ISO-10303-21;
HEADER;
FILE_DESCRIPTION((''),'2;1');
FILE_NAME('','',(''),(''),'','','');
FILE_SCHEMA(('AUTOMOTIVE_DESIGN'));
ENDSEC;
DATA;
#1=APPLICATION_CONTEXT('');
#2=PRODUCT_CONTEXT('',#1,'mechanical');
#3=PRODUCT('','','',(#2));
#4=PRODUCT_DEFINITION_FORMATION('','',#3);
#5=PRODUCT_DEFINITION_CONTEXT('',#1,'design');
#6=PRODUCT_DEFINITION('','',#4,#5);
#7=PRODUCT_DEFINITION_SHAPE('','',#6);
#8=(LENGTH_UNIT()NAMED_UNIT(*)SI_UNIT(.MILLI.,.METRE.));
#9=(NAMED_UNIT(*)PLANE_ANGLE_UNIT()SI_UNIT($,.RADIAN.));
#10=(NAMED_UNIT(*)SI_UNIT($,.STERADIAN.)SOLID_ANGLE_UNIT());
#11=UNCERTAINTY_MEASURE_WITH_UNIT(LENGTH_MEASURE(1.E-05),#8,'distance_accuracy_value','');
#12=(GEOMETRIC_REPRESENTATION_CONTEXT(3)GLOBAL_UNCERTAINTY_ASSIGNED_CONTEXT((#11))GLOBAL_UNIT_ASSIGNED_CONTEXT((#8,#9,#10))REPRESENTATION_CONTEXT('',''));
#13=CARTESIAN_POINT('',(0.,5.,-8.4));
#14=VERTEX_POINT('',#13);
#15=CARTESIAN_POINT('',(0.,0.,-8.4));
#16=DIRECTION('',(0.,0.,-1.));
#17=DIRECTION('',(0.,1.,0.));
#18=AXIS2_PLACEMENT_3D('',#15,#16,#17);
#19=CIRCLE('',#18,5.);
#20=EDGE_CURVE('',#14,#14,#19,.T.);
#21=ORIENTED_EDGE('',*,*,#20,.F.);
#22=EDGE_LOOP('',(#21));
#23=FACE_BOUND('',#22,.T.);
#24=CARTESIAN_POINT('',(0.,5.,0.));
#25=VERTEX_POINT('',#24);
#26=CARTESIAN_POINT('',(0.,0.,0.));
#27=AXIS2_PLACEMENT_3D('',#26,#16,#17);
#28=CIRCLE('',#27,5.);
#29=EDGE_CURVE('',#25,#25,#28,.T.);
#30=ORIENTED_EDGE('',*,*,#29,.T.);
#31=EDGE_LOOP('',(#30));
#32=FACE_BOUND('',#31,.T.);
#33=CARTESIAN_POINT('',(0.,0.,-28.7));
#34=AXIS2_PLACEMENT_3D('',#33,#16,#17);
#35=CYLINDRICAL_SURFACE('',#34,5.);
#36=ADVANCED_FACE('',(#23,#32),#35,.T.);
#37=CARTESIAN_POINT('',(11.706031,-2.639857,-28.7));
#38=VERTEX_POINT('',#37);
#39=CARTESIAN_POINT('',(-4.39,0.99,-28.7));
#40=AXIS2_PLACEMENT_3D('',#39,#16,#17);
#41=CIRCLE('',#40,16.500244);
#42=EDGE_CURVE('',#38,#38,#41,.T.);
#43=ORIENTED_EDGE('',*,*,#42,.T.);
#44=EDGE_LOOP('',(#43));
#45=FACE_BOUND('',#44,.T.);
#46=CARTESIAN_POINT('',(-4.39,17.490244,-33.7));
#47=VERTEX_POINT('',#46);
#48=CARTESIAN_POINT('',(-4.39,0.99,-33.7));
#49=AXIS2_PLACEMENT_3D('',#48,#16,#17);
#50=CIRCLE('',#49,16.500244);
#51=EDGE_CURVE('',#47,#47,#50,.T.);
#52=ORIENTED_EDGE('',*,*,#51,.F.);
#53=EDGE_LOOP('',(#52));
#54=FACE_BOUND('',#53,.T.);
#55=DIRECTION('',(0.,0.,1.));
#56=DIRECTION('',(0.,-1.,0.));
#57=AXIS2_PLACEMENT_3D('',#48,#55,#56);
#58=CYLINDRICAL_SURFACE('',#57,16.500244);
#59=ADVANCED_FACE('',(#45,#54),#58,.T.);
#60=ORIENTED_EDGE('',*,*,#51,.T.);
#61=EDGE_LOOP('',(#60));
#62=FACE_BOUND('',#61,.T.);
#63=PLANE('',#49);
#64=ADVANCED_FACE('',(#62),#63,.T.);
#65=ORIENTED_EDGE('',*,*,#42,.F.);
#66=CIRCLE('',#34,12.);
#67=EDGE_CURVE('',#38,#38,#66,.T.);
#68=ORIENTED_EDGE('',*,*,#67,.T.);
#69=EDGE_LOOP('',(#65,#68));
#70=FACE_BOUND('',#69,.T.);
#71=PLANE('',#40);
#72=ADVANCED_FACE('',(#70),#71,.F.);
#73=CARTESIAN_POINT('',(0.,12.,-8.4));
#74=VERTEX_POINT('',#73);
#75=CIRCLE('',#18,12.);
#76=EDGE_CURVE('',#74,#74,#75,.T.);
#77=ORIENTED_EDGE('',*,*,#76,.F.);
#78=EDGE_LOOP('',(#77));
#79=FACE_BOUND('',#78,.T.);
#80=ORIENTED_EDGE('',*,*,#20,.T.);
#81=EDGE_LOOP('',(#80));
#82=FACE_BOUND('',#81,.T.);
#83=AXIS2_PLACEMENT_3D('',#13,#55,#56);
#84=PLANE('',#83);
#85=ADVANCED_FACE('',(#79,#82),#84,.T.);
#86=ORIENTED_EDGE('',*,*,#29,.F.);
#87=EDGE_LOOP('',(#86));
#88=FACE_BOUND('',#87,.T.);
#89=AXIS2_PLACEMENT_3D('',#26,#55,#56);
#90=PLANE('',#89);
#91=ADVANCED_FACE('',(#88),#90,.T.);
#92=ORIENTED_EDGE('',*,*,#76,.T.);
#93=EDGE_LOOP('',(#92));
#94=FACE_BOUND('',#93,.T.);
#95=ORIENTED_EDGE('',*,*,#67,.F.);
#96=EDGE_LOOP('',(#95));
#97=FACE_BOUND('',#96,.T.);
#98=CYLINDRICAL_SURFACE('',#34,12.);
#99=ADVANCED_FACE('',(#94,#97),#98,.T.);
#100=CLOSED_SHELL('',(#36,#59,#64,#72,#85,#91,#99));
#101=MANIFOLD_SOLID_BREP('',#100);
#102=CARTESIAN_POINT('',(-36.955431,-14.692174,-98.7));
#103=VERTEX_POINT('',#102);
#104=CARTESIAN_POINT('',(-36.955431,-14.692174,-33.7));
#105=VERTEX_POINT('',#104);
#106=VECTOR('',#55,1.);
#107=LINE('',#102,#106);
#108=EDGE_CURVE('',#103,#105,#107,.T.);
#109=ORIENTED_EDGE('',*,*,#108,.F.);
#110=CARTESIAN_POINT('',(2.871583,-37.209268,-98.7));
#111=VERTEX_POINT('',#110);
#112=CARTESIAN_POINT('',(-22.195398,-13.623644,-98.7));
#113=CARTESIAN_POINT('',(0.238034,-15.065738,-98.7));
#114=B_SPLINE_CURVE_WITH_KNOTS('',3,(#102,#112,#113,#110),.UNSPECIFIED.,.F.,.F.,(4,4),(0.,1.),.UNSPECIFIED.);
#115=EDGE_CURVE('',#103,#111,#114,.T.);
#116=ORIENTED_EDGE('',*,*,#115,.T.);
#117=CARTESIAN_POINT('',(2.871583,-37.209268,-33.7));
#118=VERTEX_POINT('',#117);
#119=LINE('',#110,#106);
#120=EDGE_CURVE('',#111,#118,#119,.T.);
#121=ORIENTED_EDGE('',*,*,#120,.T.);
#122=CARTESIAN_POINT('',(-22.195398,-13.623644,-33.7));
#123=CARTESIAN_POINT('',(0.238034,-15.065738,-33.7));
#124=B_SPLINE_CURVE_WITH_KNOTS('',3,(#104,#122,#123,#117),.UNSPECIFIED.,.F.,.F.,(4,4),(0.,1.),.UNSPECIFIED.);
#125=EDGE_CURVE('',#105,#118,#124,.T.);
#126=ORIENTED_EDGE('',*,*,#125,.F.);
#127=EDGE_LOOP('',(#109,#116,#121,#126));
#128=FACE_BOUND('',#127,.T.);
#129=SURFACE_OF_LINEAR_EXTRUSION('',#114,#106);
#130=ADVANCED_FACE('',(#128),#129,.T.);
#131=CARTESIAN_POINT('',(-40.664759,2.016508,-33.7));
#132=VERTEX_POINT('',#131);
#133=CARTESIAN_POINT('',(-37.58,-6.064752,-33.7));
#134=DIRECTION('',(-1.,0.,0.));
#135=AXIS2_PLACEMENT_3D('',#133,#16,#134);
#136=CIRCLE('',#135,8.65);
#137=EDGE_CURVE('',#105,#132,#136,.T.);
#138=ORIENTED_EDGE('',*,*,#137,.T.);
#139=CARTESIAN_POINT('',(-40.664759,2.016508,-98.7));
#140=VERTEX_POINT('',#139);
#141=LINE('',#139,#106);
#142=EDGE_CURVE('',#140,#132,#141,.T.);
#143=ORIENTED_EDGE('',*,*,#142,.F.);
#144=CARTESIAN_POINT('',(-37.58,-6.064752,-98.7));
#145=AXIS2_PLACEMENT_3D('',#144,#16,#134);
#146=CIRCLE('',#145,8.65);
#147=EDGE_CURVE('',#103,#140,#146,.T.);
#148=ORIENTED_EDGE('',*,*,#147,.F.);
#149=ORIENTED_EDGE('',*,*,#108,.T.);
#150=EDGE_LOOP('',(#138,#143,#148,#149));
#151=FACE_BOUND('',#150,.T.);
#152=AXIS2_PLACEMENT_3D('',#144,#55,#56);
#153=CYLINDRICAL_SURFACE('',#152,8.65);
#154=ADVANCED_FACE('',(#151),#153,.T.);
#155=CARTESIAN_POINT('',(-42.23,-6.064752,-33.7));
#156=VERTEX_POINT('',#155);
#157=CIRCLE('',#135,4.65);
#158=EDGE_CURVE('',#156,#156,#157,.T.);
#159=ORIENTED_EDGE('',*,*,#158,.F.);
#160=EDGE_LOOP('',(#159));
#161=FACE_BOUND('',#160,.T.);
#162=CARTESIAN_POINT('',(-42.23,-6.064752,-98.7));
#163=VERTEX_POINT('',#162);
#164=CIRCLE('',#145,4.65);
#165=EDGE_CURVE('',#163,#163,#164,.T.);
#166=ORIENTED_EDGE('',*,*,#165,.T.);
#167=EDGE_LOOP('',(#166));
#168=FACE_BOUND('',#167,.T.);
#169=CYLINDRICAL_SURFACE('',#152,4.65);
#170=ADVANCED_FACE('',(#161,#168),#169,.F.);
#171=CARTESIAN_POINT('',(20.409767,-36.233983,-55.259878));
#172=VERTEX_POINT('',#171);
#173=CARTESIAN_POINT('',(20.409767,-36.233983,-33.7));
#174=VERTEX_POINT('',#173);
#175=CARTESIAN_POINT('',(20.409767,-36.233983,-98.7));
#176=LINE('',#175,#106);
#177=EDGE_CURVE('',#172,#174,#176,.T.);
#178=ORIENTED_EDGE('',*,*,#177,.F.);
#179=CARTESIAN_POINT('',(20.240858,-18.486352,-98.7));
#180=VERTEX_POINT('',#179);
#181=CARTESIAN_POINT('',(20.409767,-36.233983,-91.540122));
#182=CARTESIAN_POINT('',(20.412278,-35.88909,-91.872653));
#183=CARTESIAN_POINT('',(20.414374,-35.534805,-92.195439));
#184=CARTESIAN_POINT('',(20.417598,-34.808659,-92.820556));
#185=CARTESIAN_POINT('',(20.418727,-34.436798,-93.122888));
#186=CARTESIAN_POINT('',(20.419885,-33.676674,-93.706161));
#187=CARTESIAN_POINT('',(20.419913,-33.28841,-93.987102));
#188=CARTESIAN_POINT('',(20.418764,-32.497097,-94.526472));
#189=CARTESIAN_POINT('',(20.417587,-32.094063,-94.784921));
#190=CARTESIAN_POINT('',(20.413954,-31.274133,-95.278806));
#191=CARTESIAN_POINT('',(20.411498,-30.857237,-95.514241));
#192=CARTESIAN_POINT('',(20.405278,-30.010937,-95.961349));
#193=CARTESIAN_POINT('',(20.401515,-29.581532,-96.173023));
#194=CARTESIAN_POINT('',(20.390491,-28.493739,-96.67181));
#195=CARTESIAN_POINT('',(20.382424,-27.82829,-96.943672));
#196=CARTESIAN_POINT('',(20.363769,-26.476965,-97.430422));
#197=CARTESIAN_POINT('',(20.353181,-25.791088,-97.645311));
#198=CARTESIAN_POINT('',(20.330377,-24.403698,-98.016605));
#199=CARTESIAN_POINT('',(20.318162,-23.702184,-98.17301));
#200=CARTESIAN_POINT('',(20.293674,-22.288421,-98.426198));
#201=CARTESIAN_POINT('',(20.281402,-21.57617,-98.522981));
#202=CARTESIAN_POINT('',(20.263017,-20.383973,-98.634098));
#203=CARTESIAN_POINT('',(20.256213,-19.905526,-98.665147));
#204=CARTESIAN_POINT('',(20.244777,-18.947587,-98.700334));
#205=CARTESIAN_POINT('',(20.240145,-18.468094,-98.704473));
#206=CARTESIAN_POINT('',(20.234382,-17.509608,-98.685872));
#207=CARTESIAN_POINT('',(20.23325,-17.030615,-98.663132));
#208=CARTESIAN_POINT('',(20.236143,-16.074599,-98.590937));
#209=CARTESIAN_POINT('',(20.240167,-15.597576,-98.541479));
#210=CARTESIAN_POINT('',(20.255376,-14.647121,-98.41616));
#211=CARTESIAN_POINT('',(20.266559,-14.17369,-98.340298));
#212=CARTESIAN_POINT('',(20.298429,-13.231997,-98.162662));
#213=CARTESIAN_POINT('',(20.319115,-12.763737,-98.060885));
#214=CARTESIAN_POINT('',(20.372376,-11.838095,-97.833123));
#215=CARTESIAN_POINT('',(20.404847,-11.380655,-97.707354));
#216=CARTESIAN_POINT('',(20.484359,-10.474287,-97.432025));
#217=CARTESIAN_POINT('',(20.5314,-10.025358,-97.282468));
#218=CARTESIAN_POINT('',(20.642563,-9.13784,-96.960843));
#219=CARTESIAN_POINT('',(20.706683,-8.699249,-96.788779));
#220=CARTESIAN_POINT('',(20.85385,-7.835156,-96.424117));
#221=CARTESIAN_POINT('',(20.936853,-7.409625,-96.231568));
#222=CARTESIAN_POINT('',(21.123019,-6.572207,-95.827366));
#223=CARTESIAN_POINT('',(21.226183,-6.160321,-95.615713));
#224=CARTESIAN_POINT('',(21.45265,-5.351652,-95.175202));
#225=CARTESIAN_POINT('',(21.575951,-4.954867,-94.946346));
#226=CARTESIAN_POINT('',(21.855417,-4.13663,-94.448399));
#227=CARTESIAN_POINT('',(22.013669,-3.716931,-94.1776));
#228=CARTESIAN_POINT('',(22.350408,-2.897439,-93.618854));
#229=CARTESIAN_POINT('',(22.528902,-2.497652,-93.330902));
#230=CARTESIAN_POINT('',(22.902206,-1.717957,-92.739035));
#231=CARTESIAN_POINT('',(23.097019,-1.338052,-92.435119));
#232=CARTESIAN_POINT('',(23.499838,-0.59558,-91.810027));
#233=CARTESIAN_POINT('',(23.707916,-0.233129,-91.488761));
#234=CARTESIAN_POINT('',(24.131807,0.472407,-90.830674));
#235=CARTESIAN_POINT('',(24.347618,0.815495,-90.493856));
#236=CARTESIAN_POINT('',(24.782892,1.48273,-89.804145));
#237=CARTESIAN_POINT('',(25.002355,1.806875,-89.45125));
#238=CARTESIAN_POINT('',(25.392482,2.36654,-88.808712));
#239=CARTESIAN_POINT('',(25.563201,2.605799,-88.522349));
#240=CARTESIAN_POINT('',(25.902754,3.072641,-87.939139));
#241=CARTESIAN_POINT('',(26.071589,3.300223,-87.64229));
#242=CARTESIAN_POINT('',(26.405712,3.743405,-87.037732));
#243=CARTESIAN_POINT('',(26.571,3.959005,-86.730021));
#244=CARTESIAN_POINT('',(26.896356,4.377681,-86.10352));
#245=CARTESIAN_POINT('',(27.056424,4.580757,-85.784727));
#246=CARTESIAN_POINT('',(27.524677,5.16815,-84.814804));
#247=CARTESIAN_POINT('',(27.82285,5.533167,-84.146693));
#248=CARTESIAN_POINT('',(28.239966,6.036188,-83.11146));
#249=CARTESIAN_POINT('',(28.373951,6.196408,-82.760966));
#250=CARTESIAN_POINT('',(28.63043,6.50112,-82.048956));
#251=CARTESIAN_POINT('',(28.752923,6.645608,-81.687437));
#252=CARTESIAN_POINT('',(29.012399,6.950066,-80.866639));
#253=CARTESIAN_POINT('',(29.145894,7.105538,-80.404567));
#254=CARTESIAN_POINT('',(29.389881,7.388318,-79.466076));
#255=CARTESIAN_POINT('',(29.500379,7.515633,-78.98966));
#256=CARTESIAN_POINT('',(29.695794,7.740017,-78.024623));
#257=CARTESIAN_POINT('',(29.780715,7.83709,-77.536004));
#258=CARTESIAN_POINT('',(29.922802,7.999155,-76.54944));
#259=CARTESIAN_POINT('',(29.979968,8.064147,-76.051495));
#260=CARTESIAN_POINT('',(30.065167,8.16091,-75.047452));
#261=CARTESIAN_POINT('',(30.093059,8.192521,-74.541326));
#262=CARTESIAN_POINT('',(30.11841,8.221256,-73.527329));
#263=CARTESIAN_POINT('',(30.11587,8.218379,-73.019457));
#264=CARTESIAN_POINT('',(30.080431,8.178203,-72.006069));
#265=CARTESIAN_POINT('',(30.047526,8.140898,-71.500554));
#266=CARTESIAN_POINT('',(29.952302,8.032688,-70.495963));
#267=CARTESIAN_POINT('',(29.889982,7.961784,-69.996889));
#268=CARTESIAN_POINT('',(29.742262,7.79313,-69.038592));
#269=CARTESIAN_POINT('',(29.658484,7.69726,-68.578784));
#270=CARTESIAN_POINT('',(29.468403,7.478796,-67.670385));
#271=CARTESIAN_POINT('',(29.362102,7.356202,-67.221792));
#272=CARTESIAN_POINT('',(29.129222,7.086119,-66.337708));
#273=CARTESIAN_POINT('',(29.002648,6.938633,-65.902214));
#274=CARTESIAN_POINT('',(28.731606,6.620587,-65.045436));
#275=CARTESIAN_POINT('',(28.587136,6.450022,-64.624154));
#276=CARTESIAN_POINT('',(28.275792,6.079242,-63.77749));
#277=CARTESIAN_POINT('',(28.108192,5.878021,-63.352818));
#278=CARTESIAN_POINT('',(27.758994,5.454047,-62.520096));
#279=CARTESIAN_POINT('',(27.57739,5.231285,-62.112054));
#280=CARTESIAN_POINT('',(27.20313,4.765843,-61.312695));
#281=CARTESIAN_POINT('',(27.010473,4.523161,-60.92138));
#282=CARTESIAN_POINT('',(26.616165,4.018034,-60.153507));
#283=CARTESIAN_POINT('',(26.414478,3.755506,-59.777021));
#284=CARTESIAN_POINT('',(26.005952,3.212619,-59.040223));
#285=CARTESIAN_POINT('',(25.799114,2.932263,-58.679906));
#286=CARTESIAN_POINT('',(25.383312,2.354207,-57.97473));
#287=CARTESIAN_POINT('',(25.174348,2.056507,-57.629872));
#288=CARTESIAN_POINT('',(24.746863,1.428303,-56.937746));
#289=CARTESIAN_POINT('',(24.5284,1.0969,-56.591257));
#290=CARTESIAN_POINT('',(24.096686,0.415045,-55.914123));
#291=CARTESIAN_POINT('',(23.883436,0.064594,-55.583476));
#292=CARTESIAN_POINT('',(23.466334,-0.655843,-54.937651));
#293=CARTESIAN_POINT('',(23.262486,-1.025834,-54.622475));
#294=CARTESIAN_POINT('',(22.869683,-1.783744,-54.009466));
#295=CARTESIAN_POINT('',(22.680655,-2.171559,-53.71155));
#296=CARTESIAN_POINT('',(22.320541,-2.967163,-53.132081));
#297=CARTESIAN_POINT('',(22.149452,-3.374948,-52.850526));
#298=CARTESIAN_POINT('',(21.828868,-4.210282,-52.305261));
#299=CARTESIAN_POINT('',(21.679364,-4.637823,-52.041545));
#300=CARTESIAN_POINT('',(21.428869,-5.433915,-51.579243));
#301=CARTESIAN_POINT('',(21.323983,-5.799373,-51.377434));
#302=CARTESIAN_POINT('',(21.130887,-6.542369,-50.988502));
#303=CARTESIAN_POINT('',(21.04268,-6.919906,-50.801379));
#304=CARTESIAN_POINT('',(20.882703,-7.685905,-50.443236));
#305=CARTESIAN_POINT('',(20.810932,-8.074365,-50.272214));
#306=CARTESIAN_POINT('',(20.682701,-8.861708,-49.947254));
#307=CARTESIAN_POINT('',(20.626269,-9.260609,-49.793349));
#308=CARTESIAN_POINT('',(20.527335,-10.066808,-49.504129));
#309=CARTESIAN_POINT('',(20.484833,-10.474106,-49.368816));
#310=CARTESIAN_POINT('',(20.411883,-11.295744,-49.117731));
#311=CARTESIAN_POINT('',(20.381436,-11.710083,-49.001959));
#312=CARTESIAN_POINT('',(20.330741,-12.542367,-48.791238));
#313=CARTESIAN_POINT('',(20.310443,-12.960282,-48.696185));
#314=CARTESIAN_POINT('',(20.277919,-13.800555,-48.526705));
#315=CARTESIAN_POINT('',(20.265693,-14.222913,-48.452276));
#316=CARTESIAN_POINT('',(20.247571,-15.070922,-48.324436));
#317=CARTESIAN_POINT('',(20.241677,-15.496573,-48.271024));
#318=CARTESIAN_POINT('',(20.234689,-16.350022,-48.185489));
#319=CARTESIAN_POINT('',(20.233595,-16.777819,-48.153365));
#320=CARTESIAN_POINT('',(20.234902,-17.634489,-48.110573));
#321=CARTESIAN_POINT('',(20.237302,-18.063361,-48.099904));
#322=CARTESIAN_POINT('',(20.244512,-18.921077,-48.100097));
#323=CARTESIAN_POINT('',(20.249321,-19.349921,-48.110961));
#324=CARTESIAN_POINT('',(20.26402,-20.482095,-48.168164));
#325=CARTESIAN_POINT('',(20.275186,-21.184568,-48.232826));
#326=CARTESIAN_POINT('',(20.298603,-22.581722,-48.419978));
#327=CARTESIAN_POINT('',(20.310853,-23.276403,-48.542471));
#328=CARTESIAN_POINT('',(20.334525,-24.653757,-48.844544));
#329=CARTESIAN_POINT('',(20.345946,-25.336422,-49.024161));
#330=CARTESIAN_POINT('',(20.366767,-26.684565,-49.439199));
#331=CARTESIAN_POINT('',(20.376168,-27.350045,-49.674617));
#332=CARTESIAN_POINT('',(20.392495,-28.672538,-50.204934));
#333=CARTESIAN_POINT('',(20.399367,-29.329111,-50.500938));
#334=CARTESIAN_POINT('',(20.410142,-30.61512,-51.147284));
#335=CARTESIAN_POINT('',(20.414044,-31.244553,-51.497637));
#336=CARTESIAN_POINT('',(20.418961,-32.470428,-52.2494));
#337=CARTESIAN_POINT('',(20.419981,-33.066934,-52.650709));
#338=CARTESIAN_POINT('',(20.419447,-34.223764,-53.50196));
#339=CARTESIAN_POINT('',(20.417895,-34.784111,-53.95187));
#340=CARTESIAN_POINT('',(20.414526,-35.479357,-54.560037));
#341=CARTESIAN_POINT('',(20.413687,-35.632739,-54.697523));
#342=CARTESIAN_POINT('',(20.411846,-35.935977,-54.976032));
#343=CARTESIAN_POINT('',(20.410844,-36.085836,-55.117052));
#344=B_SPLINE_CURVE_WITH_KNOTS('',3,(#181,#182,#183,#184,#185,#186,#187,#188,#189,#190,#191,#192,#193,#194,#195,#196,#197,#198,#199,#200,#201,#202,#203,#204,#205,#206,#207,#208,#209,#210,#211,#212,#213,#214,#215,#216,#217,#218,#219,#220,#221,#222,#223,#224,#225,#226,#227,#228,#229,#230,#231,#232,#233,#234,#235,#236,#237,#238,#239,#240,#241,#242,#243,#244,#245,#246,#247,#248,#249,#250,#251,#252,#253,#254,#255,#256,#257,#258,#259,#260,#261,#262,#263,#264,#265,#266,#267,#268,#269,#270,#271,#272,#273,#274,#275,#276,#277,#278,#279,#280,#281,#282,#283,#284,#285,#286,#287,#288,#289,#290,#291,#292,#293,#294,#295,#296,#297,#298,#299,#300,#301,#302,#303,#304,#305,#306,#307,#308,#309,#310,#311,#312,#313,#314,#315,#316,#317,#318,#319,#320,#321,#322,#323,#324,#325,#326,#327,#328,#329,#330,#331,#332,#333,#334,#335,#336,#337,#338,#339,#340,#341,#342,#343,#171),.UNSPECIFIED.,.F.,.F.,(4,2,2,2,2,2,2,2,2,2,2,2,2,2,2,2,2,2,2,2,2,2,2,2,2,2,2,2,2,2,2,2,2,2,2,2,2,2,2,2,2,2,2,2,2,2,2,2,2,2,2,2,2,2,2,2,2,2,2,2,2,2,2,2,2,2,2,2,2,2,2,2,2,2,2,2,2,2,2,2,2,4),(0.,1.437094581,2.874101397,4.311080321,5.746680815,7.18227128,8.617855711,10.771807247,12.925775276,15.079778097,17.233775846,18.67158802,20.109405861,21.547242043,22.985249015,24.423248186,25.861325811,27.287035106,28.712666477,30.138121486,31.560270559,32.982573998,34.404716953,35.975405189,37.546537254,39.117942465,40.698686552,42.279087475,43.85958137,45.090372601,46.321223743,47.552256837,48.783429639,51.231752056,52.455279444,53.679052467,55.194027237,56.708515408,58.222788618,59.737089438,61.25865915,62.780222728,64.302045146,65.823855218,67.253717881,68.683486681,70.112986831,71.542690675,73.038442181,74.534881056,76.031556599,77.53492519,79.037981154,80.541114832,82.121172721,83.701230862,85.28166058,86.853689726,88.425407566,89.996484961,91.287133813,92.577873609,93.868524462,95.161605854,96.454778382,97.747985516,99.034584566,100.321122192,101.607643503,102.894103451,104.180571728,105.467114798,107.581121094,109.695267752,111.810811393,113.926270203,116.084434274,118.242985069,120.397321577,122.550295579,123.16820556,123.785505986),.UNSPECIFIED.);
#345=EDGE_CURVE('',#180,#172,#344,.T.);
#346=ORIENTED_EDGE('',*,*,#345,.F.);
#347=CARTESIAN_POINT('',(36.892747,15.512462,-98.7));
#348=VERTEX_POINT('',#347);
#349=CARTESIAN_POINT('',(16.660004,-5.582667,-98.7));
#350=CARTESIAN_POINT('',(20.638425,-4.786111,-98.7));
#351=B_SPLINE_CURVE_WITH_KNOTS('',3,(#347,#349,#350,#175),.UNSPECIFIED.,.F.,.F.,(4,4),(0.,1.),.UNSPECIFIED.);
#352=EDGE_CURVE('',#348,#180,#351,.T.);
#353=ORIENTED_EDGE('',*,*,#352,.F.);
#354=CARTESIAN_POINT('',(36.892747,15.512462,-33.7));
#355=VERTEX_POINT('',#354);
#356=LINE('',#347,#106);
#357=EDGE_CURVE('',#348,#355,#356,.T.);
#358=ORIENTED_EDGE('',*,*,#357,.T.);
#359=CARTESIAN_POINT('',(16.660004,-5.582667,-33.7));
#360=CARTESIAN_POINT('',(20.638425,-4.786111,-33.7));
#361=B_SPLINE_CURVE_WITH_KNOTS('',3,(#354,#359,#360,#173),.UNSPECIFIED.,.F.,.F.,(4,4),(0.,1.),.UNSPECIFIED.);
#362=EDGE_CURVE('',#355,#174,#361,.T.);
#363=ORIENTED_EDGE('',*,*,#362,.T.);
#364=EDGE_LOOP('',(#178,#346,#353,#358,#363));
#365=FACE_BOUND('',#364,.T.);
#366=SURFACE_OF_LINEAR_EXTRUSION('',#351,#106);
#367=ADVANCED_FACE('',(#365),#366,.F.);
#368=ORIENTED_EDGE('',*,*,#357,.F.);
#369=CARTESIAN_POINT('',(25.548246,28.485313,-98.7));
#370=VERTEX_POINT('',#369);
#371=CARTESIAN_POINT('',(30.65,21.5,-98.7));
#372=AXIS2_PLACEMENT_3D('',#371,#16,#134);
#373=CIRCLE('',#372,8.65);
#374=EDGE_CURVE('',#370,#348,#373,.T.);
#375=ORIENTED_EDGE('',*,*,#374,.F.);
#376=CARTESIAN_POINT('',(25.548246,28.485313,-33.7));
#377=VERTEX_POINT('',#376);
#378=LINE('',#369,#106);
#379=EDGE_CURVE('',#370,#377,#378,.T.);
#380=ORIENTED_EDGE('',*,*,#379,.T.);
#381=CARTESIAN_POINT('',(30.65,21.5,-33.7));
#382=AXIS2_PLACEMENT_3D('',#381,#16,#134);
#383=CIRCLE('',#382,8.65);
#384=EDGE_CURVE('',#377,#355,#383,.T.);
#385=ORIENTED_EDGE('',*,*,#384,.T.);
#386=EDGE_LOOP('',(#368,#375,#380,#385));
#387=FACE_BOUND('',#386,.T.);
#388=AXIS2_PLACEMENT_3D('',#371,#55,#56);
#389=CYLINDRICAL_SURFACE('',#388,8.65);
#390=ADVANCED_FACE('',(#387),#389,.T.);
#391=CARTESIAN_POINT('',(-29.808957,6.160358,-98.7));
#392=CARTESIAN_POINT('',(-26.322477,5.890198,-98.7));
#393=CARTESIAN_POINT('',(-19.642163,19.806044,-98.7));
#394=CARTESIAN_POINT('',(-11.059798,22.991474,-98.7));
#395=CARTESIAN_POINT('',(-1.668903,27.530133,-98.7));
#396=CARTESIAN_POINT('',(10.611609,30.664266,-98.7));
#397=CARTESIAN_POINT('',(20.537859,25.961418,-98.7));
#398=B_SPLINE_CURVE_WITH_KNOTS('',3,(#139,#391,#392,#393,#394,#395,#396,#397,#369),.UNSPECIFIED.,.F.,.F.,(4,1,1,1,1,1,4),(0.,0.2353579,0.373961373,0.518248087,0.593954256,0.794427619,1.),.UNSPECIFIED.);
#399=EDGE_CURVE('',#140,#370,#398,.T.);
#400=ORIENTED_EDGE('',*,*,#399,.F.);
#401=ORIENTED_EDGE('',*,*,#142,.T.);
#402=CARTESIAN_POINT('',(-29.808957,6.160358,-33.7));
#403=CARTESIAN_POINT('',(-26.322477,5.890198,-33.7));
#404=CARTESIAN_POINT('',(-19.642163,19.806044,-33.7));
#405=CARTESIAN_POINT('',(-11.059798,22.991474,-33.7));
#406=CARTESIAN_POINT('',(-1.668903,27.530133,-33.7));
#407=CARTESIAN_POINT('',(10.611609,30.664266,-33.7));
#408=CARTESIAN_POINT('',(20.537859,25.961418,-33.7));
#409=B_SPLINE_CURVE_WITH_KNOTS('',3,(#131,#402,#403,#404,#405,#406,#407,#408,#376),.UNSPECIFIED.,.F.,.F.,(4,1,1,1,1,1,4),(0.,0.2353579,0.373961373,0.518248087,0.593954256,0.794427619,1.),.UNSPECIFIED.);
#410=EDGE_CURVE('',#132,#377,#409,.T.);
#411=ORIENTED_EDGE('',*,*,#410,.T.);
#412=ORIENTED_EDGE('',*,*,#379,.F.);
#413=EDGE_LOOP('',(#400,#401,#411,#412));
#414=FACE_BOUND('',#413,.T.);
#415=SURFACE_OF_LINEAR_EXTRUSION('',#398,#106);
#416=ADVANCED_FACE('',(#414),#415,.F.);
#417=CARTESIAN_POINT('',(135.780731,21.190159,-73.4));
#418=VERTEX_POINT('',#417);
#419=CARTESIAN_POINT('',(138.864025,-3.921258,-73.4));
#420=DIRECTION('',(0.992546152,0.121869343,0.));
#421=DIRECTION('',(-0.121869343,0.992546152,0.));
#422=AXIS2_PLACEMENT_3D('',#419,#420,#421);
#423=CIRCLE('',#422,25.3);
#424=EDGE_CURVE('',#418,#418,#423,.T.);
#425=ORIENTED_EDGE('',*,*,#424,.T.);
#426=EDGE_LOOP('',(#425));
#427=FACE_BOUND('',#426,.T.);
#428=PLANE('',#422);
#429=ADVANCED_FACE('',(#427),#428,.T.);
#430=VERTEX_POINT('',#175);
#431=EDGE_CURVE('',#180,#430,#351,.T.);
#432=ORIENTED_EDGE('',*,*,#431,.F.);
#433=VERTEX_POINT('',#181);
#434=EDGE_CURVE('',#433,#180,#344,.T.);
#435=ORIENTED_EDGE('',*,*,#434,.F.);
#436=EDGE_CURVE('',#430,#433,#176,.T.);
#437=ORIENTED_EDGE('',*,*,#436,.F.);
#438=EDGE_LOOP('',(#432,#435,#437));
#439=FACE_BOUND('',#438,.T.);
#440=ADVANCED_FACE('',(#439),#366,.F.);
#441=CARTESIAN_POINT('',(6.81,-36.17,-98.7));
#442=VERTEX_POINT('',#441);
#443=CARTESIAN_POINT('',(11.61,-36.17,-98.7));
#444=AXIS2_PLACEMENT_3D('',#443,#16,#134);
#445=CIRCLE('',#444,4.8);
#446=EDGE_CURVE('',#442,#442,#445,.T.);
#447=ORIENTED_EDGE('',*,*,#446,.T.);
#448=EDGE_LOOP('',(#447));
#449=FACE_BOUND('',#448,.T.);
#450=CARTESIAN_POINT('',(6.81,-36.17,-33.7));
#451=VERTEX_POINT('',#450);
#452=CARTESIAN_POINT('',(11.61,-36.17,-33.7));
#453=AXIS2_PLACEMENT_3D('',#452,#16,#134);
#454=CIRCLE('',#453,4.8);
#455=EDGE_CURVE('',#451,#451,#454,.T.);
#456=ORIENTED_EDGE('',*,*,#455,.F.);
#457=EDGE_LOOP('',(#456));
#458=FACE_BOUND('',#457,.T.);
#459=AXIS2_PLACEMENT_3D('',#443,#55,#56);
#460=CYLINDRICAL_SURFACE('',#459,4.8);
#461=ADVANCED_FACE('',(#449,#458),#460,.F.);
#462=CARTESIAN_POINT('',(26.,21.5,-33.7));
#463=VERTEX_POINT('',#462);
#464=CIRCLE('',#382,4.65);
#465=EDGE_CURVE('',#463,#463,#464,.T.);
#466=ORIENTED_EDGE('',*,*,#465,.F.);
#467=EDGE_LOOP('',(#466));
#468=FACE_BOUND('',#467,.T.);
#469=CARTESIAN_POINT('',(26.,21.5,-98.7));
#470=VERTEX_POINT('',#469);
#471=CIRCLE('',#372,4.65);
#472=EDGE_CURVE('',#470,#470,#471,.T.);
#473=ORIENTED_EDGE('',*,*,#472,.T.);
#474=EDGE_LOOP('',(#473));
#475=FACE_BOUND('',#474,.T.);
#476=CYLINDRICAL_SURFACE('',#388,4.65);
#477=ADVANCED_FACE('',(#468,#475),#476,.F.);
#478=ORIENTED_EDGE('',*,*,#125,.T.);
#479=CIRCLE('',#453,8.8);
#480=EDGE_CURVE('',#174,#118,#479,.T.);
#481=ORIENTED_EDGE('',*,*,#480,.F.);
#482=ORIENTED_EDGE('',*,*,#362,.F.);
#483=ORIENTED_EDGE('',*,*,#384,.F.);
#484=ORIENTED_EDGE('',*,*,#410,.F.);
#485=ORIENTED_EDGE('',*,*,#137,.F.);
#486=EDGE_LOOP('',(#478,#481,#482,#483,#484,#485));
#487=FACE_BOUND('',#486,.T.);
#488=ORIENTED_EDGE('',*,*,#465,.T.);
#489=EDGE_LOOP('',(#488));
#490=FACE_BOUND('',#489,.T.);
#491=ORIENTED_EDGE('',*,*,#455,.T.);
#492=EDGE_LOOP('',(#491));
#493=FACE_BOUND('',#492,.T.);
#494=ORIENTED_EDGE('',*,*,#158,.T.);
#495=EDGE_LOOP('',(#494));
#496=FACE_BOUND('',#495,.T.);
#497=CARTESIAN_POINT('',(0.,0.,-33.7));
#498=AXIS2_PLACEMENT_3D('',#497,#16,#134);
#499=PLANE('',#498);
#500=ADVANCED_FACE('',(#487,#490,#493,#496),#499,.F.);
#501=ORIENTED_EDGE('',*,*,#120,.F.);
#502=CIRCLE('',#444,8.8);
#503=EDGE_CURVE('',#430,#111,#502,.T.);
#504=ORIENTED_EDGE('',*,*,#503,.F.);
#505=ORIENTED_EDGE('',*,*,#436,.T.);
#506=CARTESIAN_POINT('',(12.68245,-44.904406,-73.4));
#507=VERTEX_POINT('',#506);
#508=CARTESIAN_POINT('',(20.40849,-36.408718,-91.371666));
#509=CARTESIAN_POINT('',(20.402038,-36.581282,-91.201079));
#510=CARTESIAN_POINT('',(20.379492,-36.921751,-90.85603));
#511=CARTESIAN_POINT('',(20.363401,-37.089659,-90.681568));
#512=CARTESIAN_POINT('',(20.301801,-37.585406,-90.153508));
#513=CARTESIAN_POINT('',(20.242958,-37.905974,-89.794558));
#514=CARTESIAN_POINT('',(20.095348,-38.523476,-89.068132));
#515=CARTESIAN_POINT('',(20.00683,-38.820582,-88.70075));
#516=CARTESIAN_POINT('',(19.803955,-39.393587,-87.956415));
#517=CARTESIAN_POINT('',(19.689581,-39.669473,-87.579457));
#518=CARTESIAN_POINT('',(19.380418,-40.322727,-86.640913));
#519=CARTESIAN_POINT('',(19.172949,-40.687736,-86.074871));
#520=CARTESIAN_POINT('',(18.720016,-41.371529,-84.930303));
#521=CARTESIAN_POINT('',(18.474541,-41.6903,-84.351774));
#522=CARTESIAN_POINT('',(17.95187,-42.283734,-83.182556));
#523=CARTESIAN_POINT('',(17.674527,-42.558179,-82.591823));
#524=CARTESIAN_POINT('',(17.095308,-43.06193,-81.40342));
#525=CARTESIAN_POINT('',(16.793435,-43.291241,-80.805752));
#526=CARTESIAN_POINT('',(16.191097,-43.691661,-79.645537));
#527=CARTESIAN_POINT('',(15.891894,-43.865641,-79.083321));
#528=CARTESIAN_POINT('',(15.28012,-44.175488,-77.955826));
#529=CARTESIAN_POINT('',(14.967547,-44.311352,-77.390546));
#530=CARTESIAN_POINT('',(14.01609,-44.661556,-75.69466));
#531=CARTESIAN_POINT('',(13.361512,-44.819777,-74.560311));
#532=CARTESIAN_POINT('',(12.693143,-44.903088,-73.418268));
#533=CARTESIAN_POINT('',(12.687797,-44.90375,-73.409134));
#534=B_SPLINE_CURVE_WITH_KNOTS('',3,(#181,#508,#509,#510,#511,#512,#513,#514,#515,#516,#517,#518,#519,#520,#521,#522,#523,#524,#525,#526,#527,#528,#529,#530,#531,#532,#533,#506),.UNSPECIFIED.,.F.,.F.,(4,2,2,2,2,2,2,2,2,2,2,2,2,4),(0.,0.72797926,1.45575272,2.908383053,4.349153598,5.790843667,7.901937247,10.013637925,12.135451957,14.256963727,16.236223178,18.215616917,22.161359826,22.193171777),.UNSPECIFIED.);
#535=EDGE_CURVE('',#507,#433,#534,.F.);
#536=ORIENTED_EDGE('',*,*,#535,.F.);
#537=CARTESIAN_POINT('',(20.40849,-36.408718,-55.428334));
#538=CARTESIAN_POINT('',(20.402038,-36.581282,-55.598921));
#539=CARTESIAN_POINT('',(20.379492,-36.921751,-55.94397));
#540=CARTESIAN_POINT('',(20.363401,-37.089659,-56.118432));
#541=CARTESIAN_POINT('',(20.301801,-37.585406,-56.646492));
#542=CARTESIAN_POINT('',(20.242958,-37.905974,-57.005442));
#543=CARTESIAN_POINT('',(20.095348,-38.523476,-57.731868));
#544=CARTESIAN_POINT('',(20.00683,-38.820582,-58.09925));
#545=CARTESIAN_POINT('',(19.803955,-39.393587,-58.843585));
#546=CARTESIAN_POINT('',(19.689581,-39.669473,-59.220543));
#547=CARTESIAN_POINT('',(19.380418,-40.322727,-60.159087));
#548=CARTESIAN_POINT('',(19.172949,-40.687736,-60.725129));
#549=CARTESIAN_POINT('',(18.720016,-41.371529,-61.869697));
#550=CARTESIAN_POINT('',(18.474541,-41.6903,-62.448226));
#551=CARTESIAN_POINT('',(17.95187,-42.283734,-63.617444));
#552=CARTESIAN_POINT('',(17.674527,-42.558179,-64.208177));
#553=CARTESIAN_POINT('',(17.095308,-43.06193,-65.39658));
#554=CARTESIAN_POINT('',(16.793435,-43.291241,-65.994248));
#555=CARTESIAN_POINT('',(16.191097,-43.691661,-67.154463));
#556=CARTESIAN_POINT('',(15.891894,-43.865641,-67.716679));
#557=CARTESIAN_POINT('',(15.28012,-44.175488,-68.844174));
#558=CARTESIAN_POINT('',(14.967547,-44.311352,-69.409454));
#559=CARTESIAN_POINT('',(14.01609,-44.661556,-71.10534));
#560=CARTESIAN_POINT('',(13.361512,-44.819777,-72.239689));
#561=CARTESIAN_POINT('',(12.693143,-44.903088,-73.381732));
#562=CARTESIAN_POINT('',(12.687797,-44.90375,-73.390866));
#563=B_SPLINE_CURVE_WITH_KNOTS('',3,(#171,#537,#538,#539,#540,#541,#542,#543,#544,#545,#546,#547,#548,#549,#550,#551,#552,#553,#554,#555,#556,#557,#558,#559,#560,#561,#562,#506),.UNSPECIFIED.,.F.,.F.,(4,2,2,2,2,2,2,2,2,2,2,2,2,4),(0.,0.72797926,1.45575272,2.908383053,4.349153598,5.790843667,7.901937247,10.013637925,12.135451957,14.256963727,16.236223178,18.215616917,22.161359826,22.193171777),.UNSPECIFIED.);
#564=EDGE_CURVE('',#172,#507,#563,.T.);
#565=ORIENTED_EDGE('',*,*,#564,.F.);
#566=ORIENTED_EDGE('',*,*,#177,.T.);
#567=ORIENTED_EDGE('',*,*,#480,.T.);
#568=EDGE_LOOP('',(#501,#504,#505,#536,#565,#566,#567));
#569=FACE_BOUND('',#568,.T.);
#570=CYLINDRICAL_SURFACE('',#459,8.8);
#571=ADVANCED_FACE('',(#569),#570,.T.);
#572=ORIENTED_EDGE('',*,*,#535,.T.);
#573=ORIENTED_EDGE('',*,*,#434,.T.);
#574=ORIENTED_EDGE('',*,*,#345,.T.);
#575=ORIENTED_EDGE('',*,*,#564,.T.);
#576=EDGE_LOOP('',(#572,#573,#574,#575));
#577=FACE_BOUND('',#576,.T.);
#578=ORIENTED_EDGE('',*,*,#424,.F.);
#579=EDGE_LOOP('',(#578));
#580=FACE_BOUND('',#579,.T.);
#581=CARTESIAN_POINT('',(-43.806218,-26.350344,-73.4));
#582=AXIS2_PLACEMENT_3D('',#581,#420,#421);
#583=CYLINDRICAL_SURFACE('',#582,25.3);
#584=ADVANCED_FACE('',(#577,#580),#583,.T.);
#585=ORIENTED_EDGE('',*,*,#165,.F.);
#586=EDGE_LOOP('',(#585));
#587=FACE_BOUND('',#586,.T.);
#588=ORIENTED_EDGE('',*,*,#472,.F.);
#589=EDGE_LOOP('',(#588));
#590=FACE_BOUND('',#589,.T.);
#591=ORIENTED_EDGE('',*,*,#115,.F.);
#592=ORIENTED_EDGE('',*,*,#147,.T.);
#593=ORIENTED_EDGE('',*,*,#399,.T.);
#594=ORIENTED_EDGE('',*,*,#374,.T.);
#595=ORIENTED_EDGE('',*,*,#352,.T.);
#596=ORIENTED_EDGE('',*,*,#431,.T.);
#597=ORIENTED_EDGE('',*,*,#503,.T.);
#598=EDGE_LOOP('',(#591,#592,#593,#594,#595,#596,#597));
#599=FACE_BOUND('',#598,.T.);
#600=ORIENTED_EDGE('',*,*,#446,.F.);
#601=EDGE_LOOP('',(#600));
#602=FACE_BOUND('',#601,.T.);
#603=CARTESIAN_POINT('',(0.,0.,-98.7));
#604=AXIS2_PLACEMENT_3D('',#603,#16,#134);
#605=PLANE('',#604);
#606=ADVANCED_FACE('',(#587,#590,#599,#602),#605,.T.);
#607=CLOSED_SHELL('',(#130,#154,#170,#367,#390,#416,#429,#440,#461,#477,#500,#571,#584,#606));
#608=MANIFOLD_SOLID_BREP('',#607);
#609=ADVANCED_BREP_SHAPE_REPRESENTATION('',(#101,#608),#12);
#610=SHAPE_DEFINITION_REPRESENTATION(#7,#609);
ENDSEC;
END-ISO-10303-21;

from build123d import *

# Parameters (mm, degrees)
SKETCH2_R           = 16.500244437805573
BOSS_EXTRUDE1_DEPTH = 5
SKETCH3_R           = 16.500244437805573
SKETCH3_R_2         = 8.650000000000004
SKETCH3_R_3         = 4.650000000000003
SKETCH3_R_4         = 8.799999999999999
SKETCH3_R_5         = 4.8
SKETCH3_R_6         = 8.650000000000006
BOSS_EXTRUDE2_DEPTH = 65
BOSS_EXTRUDE4_REACH = 218.511
SKETCH7_R           = 25.3


with BuildPart() as part:
    # Sketch1 → Revolve1 (revolve)
    with BuildSketch(Plane(origin=(0, 0, 0), x_dir=(0, 0, -1), z_dir=(1, 0, 0))):
        Polygon((0, 0), (0, 5), (8.4, 5), (8.4, 11.999999999999998), (28.7, 11.999999999999998), (28.7, -4.1e-16), align=None)
    revolve(axis=Axis((0, -4.1e-16, -28.7), (0, 1e-17, 1)))

    # Sketch2 → Boss-Extrude1 (add)
    with BuildSketch(Plane(origin=(0, -4.1e-16, -28.7), x_dir=(-1, 0, 0), z_dir=(0, -1e-17, -1))):
        with Locations(Location((4.39, 0.9900000000000004, 0), (0, 0, 192.708331136))):
            Circle(SKETCH2_R)
    extrude(amount=BOSS_EXTRUDE1_DEPTH)


with BuildPart() as body_2:
    # Sketch3 → Boss-Extrude2 (new body)
    # profile 1 of 5: a face of its own
    with BuildSketch(Plane(origin=(0, -4.8e-16, -33.7), x_dir=(-1, 0, 0), z_dir=(0, -1e-17, -1))):
        with BuildLine():
            ThreePointArc((-25.548245523810184, 28.48531325458474), (-22.93790961479827, 25.4174177579726), (-22, 21.5))
            ThreePointArc((-22, 21.499999999999996), (-27.423334508646363, 13.474345521584695), (-36.892746776163605, 15.512461884154803))
            add(Edge.make_bspline(
                [(-36.892746776163605, 15.512461884154803), (-16.660003911323148, -5.582667340688575), (-20.638424671102047, -4.786111490176385), (-20.409767392881168, -36.23398305389149)],
                knots=[0, 0, 0, 0, 1, 1, 1, 1], degree=3))
            ThreePointArc((-20.40976739288117, -36.23398305389149), (-11.641991738352868, -27.370058151971847), (-2.8100000000000023, -36.17))
            ThreePointArc((-2.8100000000000023, -36.17), (-2.8254093652131864, -36.69054527105313), (-2.8715834952763153, -37.20926752569907))
            add(Edge.make_bspline(
                [(36.95543055776123, -14.692174435160824), (22.19539798135658, -13.623643748956997), (-0.23803416271377587, -15.065738179690955), (-2.871583495276305, -37.20926752569907)],
                knots=[0, 0, 0, 0, 1, 1, 1, 1], degree=3))
            ThreePointArc((36.955430557761225, -14.692174435160826), (29.135584806707534, -4.190091767683555), (40.66475868053767, 2.0165077611882465))
            add(Edge.make_bspline(
                [(40.66475868053767, 2.016507761188239), (29.808956582353794, 6.160357801691806), (26.322476580478053, 5.890198418661211), (19.642162970423723, 19.806043738904282), (11.059797634796585, 22.991473655490648), (1.6689029742780697, 27.530132896770162), (-10.611608742348706, 30.664265995063133), (-20.53785946879496, 25.961417581018228), (-25.548245523810188, 28.485313254584735)],
                knots=[0, 0, 0, 0, 0.235357900246048, 0.3739613729049905, 0.5182480867569615, 0.593954255967096, 0.794427618619775, 1, 1, 1, 1], degree=3))
        make_face()
        with Locations(Location((4.39, 0.9900000000000004, 0), (0, 0, 192.708331136))):
            Circle(SKETCH3_R, mode=Mode.SUBTRACT)
    # profile 2 of 5: a face of its own
    with BuildSketch(Plane(origin=(0, -4.8e-16, -33.7), x_dir=(-1, 0, 0), z_dir=(0, -1e-17, -1))):
        with Locations((-30.650000000000002, 21.5)):
            Circle(SKETCH3_R_2)
        with Locations((-30.650000000000002, 21.5)):
            Circle(SKETCH3_R_3, mode=Mode.SUBTRACT)
    # profile 3 of 5: a face of its own
    with BuildSketch(Plane(origin=(0, -4.8e-16, -33.7), x_dir=(-1, 0, 0), z_dir=(0, -1e-17, -1))):
        with Locations((-11.610000000000001, -36.17)):
            Circle(SKETCH3_R_4)
        with Locations((-11.610000000000001, -36.17)):
            Circle(SKETCH3_R_5, mode=Mode.SUBTRACT)
    # profile 4 of 5: a face of its own
    with BuildSketch(Plane(origin=(0, -4.8e-16, -33.7), x_dir=(-1, 0, 0), z_dir=(0, -1e-17, -1))):
        with Locations((37.58, -6.064752281827791)):
            Circle(SKETCH3_R_6)
        with Locations((37.58, -6.064752281827791)):
            Circle(SKETCH3_R_3, mode=Mode.SUBTRACT)
    # profile 5 of 5: a face of its own
    with BuildSketch(Plane(origin=(0, -4.8e-16, -33.7), x_dir=(-1, 0, 0), z_dir=(0, -1e-17, -1))):
        with Locations(Location((4.39, 0.9900000000000004, 0), (0, 0, 192.708331136))):
            Circle(SKETCH3_R)
    extrude(amount=BOSS_EXTRUDE2_DEPTH)

    # Sketch7 → Boss-Extrude4 (add, up to next)
    with BuildSketch(Plane(origin=(136.32727872538024, 16.73888505738423, 0), x_dir=(0.12186934340515132, -0.9925461516413215, 0), z_dir=(0.9925461516413217, 0.12186934340515133, 0)), mode=Mode.PRIVATE) as boss_extrude4_sk1:
        with Locations(Location((20.8152973818004, 73.4, 0), (0, 0, 180))):
            Circle(SKETCH7_R)
    boss_extrude4_tool1 = extrude(boss_extrude4_sk1.sketch, amount=-BOSS_EXTRUDE4_REACH, mode=Mode.PRIVATE) - body_2.part
    add(boss_extrude4_tool1.solids().sort_by_distance((138.864025, -3.921258, -73.4))[0])


solid = Compound([part.part, body_2.part])
